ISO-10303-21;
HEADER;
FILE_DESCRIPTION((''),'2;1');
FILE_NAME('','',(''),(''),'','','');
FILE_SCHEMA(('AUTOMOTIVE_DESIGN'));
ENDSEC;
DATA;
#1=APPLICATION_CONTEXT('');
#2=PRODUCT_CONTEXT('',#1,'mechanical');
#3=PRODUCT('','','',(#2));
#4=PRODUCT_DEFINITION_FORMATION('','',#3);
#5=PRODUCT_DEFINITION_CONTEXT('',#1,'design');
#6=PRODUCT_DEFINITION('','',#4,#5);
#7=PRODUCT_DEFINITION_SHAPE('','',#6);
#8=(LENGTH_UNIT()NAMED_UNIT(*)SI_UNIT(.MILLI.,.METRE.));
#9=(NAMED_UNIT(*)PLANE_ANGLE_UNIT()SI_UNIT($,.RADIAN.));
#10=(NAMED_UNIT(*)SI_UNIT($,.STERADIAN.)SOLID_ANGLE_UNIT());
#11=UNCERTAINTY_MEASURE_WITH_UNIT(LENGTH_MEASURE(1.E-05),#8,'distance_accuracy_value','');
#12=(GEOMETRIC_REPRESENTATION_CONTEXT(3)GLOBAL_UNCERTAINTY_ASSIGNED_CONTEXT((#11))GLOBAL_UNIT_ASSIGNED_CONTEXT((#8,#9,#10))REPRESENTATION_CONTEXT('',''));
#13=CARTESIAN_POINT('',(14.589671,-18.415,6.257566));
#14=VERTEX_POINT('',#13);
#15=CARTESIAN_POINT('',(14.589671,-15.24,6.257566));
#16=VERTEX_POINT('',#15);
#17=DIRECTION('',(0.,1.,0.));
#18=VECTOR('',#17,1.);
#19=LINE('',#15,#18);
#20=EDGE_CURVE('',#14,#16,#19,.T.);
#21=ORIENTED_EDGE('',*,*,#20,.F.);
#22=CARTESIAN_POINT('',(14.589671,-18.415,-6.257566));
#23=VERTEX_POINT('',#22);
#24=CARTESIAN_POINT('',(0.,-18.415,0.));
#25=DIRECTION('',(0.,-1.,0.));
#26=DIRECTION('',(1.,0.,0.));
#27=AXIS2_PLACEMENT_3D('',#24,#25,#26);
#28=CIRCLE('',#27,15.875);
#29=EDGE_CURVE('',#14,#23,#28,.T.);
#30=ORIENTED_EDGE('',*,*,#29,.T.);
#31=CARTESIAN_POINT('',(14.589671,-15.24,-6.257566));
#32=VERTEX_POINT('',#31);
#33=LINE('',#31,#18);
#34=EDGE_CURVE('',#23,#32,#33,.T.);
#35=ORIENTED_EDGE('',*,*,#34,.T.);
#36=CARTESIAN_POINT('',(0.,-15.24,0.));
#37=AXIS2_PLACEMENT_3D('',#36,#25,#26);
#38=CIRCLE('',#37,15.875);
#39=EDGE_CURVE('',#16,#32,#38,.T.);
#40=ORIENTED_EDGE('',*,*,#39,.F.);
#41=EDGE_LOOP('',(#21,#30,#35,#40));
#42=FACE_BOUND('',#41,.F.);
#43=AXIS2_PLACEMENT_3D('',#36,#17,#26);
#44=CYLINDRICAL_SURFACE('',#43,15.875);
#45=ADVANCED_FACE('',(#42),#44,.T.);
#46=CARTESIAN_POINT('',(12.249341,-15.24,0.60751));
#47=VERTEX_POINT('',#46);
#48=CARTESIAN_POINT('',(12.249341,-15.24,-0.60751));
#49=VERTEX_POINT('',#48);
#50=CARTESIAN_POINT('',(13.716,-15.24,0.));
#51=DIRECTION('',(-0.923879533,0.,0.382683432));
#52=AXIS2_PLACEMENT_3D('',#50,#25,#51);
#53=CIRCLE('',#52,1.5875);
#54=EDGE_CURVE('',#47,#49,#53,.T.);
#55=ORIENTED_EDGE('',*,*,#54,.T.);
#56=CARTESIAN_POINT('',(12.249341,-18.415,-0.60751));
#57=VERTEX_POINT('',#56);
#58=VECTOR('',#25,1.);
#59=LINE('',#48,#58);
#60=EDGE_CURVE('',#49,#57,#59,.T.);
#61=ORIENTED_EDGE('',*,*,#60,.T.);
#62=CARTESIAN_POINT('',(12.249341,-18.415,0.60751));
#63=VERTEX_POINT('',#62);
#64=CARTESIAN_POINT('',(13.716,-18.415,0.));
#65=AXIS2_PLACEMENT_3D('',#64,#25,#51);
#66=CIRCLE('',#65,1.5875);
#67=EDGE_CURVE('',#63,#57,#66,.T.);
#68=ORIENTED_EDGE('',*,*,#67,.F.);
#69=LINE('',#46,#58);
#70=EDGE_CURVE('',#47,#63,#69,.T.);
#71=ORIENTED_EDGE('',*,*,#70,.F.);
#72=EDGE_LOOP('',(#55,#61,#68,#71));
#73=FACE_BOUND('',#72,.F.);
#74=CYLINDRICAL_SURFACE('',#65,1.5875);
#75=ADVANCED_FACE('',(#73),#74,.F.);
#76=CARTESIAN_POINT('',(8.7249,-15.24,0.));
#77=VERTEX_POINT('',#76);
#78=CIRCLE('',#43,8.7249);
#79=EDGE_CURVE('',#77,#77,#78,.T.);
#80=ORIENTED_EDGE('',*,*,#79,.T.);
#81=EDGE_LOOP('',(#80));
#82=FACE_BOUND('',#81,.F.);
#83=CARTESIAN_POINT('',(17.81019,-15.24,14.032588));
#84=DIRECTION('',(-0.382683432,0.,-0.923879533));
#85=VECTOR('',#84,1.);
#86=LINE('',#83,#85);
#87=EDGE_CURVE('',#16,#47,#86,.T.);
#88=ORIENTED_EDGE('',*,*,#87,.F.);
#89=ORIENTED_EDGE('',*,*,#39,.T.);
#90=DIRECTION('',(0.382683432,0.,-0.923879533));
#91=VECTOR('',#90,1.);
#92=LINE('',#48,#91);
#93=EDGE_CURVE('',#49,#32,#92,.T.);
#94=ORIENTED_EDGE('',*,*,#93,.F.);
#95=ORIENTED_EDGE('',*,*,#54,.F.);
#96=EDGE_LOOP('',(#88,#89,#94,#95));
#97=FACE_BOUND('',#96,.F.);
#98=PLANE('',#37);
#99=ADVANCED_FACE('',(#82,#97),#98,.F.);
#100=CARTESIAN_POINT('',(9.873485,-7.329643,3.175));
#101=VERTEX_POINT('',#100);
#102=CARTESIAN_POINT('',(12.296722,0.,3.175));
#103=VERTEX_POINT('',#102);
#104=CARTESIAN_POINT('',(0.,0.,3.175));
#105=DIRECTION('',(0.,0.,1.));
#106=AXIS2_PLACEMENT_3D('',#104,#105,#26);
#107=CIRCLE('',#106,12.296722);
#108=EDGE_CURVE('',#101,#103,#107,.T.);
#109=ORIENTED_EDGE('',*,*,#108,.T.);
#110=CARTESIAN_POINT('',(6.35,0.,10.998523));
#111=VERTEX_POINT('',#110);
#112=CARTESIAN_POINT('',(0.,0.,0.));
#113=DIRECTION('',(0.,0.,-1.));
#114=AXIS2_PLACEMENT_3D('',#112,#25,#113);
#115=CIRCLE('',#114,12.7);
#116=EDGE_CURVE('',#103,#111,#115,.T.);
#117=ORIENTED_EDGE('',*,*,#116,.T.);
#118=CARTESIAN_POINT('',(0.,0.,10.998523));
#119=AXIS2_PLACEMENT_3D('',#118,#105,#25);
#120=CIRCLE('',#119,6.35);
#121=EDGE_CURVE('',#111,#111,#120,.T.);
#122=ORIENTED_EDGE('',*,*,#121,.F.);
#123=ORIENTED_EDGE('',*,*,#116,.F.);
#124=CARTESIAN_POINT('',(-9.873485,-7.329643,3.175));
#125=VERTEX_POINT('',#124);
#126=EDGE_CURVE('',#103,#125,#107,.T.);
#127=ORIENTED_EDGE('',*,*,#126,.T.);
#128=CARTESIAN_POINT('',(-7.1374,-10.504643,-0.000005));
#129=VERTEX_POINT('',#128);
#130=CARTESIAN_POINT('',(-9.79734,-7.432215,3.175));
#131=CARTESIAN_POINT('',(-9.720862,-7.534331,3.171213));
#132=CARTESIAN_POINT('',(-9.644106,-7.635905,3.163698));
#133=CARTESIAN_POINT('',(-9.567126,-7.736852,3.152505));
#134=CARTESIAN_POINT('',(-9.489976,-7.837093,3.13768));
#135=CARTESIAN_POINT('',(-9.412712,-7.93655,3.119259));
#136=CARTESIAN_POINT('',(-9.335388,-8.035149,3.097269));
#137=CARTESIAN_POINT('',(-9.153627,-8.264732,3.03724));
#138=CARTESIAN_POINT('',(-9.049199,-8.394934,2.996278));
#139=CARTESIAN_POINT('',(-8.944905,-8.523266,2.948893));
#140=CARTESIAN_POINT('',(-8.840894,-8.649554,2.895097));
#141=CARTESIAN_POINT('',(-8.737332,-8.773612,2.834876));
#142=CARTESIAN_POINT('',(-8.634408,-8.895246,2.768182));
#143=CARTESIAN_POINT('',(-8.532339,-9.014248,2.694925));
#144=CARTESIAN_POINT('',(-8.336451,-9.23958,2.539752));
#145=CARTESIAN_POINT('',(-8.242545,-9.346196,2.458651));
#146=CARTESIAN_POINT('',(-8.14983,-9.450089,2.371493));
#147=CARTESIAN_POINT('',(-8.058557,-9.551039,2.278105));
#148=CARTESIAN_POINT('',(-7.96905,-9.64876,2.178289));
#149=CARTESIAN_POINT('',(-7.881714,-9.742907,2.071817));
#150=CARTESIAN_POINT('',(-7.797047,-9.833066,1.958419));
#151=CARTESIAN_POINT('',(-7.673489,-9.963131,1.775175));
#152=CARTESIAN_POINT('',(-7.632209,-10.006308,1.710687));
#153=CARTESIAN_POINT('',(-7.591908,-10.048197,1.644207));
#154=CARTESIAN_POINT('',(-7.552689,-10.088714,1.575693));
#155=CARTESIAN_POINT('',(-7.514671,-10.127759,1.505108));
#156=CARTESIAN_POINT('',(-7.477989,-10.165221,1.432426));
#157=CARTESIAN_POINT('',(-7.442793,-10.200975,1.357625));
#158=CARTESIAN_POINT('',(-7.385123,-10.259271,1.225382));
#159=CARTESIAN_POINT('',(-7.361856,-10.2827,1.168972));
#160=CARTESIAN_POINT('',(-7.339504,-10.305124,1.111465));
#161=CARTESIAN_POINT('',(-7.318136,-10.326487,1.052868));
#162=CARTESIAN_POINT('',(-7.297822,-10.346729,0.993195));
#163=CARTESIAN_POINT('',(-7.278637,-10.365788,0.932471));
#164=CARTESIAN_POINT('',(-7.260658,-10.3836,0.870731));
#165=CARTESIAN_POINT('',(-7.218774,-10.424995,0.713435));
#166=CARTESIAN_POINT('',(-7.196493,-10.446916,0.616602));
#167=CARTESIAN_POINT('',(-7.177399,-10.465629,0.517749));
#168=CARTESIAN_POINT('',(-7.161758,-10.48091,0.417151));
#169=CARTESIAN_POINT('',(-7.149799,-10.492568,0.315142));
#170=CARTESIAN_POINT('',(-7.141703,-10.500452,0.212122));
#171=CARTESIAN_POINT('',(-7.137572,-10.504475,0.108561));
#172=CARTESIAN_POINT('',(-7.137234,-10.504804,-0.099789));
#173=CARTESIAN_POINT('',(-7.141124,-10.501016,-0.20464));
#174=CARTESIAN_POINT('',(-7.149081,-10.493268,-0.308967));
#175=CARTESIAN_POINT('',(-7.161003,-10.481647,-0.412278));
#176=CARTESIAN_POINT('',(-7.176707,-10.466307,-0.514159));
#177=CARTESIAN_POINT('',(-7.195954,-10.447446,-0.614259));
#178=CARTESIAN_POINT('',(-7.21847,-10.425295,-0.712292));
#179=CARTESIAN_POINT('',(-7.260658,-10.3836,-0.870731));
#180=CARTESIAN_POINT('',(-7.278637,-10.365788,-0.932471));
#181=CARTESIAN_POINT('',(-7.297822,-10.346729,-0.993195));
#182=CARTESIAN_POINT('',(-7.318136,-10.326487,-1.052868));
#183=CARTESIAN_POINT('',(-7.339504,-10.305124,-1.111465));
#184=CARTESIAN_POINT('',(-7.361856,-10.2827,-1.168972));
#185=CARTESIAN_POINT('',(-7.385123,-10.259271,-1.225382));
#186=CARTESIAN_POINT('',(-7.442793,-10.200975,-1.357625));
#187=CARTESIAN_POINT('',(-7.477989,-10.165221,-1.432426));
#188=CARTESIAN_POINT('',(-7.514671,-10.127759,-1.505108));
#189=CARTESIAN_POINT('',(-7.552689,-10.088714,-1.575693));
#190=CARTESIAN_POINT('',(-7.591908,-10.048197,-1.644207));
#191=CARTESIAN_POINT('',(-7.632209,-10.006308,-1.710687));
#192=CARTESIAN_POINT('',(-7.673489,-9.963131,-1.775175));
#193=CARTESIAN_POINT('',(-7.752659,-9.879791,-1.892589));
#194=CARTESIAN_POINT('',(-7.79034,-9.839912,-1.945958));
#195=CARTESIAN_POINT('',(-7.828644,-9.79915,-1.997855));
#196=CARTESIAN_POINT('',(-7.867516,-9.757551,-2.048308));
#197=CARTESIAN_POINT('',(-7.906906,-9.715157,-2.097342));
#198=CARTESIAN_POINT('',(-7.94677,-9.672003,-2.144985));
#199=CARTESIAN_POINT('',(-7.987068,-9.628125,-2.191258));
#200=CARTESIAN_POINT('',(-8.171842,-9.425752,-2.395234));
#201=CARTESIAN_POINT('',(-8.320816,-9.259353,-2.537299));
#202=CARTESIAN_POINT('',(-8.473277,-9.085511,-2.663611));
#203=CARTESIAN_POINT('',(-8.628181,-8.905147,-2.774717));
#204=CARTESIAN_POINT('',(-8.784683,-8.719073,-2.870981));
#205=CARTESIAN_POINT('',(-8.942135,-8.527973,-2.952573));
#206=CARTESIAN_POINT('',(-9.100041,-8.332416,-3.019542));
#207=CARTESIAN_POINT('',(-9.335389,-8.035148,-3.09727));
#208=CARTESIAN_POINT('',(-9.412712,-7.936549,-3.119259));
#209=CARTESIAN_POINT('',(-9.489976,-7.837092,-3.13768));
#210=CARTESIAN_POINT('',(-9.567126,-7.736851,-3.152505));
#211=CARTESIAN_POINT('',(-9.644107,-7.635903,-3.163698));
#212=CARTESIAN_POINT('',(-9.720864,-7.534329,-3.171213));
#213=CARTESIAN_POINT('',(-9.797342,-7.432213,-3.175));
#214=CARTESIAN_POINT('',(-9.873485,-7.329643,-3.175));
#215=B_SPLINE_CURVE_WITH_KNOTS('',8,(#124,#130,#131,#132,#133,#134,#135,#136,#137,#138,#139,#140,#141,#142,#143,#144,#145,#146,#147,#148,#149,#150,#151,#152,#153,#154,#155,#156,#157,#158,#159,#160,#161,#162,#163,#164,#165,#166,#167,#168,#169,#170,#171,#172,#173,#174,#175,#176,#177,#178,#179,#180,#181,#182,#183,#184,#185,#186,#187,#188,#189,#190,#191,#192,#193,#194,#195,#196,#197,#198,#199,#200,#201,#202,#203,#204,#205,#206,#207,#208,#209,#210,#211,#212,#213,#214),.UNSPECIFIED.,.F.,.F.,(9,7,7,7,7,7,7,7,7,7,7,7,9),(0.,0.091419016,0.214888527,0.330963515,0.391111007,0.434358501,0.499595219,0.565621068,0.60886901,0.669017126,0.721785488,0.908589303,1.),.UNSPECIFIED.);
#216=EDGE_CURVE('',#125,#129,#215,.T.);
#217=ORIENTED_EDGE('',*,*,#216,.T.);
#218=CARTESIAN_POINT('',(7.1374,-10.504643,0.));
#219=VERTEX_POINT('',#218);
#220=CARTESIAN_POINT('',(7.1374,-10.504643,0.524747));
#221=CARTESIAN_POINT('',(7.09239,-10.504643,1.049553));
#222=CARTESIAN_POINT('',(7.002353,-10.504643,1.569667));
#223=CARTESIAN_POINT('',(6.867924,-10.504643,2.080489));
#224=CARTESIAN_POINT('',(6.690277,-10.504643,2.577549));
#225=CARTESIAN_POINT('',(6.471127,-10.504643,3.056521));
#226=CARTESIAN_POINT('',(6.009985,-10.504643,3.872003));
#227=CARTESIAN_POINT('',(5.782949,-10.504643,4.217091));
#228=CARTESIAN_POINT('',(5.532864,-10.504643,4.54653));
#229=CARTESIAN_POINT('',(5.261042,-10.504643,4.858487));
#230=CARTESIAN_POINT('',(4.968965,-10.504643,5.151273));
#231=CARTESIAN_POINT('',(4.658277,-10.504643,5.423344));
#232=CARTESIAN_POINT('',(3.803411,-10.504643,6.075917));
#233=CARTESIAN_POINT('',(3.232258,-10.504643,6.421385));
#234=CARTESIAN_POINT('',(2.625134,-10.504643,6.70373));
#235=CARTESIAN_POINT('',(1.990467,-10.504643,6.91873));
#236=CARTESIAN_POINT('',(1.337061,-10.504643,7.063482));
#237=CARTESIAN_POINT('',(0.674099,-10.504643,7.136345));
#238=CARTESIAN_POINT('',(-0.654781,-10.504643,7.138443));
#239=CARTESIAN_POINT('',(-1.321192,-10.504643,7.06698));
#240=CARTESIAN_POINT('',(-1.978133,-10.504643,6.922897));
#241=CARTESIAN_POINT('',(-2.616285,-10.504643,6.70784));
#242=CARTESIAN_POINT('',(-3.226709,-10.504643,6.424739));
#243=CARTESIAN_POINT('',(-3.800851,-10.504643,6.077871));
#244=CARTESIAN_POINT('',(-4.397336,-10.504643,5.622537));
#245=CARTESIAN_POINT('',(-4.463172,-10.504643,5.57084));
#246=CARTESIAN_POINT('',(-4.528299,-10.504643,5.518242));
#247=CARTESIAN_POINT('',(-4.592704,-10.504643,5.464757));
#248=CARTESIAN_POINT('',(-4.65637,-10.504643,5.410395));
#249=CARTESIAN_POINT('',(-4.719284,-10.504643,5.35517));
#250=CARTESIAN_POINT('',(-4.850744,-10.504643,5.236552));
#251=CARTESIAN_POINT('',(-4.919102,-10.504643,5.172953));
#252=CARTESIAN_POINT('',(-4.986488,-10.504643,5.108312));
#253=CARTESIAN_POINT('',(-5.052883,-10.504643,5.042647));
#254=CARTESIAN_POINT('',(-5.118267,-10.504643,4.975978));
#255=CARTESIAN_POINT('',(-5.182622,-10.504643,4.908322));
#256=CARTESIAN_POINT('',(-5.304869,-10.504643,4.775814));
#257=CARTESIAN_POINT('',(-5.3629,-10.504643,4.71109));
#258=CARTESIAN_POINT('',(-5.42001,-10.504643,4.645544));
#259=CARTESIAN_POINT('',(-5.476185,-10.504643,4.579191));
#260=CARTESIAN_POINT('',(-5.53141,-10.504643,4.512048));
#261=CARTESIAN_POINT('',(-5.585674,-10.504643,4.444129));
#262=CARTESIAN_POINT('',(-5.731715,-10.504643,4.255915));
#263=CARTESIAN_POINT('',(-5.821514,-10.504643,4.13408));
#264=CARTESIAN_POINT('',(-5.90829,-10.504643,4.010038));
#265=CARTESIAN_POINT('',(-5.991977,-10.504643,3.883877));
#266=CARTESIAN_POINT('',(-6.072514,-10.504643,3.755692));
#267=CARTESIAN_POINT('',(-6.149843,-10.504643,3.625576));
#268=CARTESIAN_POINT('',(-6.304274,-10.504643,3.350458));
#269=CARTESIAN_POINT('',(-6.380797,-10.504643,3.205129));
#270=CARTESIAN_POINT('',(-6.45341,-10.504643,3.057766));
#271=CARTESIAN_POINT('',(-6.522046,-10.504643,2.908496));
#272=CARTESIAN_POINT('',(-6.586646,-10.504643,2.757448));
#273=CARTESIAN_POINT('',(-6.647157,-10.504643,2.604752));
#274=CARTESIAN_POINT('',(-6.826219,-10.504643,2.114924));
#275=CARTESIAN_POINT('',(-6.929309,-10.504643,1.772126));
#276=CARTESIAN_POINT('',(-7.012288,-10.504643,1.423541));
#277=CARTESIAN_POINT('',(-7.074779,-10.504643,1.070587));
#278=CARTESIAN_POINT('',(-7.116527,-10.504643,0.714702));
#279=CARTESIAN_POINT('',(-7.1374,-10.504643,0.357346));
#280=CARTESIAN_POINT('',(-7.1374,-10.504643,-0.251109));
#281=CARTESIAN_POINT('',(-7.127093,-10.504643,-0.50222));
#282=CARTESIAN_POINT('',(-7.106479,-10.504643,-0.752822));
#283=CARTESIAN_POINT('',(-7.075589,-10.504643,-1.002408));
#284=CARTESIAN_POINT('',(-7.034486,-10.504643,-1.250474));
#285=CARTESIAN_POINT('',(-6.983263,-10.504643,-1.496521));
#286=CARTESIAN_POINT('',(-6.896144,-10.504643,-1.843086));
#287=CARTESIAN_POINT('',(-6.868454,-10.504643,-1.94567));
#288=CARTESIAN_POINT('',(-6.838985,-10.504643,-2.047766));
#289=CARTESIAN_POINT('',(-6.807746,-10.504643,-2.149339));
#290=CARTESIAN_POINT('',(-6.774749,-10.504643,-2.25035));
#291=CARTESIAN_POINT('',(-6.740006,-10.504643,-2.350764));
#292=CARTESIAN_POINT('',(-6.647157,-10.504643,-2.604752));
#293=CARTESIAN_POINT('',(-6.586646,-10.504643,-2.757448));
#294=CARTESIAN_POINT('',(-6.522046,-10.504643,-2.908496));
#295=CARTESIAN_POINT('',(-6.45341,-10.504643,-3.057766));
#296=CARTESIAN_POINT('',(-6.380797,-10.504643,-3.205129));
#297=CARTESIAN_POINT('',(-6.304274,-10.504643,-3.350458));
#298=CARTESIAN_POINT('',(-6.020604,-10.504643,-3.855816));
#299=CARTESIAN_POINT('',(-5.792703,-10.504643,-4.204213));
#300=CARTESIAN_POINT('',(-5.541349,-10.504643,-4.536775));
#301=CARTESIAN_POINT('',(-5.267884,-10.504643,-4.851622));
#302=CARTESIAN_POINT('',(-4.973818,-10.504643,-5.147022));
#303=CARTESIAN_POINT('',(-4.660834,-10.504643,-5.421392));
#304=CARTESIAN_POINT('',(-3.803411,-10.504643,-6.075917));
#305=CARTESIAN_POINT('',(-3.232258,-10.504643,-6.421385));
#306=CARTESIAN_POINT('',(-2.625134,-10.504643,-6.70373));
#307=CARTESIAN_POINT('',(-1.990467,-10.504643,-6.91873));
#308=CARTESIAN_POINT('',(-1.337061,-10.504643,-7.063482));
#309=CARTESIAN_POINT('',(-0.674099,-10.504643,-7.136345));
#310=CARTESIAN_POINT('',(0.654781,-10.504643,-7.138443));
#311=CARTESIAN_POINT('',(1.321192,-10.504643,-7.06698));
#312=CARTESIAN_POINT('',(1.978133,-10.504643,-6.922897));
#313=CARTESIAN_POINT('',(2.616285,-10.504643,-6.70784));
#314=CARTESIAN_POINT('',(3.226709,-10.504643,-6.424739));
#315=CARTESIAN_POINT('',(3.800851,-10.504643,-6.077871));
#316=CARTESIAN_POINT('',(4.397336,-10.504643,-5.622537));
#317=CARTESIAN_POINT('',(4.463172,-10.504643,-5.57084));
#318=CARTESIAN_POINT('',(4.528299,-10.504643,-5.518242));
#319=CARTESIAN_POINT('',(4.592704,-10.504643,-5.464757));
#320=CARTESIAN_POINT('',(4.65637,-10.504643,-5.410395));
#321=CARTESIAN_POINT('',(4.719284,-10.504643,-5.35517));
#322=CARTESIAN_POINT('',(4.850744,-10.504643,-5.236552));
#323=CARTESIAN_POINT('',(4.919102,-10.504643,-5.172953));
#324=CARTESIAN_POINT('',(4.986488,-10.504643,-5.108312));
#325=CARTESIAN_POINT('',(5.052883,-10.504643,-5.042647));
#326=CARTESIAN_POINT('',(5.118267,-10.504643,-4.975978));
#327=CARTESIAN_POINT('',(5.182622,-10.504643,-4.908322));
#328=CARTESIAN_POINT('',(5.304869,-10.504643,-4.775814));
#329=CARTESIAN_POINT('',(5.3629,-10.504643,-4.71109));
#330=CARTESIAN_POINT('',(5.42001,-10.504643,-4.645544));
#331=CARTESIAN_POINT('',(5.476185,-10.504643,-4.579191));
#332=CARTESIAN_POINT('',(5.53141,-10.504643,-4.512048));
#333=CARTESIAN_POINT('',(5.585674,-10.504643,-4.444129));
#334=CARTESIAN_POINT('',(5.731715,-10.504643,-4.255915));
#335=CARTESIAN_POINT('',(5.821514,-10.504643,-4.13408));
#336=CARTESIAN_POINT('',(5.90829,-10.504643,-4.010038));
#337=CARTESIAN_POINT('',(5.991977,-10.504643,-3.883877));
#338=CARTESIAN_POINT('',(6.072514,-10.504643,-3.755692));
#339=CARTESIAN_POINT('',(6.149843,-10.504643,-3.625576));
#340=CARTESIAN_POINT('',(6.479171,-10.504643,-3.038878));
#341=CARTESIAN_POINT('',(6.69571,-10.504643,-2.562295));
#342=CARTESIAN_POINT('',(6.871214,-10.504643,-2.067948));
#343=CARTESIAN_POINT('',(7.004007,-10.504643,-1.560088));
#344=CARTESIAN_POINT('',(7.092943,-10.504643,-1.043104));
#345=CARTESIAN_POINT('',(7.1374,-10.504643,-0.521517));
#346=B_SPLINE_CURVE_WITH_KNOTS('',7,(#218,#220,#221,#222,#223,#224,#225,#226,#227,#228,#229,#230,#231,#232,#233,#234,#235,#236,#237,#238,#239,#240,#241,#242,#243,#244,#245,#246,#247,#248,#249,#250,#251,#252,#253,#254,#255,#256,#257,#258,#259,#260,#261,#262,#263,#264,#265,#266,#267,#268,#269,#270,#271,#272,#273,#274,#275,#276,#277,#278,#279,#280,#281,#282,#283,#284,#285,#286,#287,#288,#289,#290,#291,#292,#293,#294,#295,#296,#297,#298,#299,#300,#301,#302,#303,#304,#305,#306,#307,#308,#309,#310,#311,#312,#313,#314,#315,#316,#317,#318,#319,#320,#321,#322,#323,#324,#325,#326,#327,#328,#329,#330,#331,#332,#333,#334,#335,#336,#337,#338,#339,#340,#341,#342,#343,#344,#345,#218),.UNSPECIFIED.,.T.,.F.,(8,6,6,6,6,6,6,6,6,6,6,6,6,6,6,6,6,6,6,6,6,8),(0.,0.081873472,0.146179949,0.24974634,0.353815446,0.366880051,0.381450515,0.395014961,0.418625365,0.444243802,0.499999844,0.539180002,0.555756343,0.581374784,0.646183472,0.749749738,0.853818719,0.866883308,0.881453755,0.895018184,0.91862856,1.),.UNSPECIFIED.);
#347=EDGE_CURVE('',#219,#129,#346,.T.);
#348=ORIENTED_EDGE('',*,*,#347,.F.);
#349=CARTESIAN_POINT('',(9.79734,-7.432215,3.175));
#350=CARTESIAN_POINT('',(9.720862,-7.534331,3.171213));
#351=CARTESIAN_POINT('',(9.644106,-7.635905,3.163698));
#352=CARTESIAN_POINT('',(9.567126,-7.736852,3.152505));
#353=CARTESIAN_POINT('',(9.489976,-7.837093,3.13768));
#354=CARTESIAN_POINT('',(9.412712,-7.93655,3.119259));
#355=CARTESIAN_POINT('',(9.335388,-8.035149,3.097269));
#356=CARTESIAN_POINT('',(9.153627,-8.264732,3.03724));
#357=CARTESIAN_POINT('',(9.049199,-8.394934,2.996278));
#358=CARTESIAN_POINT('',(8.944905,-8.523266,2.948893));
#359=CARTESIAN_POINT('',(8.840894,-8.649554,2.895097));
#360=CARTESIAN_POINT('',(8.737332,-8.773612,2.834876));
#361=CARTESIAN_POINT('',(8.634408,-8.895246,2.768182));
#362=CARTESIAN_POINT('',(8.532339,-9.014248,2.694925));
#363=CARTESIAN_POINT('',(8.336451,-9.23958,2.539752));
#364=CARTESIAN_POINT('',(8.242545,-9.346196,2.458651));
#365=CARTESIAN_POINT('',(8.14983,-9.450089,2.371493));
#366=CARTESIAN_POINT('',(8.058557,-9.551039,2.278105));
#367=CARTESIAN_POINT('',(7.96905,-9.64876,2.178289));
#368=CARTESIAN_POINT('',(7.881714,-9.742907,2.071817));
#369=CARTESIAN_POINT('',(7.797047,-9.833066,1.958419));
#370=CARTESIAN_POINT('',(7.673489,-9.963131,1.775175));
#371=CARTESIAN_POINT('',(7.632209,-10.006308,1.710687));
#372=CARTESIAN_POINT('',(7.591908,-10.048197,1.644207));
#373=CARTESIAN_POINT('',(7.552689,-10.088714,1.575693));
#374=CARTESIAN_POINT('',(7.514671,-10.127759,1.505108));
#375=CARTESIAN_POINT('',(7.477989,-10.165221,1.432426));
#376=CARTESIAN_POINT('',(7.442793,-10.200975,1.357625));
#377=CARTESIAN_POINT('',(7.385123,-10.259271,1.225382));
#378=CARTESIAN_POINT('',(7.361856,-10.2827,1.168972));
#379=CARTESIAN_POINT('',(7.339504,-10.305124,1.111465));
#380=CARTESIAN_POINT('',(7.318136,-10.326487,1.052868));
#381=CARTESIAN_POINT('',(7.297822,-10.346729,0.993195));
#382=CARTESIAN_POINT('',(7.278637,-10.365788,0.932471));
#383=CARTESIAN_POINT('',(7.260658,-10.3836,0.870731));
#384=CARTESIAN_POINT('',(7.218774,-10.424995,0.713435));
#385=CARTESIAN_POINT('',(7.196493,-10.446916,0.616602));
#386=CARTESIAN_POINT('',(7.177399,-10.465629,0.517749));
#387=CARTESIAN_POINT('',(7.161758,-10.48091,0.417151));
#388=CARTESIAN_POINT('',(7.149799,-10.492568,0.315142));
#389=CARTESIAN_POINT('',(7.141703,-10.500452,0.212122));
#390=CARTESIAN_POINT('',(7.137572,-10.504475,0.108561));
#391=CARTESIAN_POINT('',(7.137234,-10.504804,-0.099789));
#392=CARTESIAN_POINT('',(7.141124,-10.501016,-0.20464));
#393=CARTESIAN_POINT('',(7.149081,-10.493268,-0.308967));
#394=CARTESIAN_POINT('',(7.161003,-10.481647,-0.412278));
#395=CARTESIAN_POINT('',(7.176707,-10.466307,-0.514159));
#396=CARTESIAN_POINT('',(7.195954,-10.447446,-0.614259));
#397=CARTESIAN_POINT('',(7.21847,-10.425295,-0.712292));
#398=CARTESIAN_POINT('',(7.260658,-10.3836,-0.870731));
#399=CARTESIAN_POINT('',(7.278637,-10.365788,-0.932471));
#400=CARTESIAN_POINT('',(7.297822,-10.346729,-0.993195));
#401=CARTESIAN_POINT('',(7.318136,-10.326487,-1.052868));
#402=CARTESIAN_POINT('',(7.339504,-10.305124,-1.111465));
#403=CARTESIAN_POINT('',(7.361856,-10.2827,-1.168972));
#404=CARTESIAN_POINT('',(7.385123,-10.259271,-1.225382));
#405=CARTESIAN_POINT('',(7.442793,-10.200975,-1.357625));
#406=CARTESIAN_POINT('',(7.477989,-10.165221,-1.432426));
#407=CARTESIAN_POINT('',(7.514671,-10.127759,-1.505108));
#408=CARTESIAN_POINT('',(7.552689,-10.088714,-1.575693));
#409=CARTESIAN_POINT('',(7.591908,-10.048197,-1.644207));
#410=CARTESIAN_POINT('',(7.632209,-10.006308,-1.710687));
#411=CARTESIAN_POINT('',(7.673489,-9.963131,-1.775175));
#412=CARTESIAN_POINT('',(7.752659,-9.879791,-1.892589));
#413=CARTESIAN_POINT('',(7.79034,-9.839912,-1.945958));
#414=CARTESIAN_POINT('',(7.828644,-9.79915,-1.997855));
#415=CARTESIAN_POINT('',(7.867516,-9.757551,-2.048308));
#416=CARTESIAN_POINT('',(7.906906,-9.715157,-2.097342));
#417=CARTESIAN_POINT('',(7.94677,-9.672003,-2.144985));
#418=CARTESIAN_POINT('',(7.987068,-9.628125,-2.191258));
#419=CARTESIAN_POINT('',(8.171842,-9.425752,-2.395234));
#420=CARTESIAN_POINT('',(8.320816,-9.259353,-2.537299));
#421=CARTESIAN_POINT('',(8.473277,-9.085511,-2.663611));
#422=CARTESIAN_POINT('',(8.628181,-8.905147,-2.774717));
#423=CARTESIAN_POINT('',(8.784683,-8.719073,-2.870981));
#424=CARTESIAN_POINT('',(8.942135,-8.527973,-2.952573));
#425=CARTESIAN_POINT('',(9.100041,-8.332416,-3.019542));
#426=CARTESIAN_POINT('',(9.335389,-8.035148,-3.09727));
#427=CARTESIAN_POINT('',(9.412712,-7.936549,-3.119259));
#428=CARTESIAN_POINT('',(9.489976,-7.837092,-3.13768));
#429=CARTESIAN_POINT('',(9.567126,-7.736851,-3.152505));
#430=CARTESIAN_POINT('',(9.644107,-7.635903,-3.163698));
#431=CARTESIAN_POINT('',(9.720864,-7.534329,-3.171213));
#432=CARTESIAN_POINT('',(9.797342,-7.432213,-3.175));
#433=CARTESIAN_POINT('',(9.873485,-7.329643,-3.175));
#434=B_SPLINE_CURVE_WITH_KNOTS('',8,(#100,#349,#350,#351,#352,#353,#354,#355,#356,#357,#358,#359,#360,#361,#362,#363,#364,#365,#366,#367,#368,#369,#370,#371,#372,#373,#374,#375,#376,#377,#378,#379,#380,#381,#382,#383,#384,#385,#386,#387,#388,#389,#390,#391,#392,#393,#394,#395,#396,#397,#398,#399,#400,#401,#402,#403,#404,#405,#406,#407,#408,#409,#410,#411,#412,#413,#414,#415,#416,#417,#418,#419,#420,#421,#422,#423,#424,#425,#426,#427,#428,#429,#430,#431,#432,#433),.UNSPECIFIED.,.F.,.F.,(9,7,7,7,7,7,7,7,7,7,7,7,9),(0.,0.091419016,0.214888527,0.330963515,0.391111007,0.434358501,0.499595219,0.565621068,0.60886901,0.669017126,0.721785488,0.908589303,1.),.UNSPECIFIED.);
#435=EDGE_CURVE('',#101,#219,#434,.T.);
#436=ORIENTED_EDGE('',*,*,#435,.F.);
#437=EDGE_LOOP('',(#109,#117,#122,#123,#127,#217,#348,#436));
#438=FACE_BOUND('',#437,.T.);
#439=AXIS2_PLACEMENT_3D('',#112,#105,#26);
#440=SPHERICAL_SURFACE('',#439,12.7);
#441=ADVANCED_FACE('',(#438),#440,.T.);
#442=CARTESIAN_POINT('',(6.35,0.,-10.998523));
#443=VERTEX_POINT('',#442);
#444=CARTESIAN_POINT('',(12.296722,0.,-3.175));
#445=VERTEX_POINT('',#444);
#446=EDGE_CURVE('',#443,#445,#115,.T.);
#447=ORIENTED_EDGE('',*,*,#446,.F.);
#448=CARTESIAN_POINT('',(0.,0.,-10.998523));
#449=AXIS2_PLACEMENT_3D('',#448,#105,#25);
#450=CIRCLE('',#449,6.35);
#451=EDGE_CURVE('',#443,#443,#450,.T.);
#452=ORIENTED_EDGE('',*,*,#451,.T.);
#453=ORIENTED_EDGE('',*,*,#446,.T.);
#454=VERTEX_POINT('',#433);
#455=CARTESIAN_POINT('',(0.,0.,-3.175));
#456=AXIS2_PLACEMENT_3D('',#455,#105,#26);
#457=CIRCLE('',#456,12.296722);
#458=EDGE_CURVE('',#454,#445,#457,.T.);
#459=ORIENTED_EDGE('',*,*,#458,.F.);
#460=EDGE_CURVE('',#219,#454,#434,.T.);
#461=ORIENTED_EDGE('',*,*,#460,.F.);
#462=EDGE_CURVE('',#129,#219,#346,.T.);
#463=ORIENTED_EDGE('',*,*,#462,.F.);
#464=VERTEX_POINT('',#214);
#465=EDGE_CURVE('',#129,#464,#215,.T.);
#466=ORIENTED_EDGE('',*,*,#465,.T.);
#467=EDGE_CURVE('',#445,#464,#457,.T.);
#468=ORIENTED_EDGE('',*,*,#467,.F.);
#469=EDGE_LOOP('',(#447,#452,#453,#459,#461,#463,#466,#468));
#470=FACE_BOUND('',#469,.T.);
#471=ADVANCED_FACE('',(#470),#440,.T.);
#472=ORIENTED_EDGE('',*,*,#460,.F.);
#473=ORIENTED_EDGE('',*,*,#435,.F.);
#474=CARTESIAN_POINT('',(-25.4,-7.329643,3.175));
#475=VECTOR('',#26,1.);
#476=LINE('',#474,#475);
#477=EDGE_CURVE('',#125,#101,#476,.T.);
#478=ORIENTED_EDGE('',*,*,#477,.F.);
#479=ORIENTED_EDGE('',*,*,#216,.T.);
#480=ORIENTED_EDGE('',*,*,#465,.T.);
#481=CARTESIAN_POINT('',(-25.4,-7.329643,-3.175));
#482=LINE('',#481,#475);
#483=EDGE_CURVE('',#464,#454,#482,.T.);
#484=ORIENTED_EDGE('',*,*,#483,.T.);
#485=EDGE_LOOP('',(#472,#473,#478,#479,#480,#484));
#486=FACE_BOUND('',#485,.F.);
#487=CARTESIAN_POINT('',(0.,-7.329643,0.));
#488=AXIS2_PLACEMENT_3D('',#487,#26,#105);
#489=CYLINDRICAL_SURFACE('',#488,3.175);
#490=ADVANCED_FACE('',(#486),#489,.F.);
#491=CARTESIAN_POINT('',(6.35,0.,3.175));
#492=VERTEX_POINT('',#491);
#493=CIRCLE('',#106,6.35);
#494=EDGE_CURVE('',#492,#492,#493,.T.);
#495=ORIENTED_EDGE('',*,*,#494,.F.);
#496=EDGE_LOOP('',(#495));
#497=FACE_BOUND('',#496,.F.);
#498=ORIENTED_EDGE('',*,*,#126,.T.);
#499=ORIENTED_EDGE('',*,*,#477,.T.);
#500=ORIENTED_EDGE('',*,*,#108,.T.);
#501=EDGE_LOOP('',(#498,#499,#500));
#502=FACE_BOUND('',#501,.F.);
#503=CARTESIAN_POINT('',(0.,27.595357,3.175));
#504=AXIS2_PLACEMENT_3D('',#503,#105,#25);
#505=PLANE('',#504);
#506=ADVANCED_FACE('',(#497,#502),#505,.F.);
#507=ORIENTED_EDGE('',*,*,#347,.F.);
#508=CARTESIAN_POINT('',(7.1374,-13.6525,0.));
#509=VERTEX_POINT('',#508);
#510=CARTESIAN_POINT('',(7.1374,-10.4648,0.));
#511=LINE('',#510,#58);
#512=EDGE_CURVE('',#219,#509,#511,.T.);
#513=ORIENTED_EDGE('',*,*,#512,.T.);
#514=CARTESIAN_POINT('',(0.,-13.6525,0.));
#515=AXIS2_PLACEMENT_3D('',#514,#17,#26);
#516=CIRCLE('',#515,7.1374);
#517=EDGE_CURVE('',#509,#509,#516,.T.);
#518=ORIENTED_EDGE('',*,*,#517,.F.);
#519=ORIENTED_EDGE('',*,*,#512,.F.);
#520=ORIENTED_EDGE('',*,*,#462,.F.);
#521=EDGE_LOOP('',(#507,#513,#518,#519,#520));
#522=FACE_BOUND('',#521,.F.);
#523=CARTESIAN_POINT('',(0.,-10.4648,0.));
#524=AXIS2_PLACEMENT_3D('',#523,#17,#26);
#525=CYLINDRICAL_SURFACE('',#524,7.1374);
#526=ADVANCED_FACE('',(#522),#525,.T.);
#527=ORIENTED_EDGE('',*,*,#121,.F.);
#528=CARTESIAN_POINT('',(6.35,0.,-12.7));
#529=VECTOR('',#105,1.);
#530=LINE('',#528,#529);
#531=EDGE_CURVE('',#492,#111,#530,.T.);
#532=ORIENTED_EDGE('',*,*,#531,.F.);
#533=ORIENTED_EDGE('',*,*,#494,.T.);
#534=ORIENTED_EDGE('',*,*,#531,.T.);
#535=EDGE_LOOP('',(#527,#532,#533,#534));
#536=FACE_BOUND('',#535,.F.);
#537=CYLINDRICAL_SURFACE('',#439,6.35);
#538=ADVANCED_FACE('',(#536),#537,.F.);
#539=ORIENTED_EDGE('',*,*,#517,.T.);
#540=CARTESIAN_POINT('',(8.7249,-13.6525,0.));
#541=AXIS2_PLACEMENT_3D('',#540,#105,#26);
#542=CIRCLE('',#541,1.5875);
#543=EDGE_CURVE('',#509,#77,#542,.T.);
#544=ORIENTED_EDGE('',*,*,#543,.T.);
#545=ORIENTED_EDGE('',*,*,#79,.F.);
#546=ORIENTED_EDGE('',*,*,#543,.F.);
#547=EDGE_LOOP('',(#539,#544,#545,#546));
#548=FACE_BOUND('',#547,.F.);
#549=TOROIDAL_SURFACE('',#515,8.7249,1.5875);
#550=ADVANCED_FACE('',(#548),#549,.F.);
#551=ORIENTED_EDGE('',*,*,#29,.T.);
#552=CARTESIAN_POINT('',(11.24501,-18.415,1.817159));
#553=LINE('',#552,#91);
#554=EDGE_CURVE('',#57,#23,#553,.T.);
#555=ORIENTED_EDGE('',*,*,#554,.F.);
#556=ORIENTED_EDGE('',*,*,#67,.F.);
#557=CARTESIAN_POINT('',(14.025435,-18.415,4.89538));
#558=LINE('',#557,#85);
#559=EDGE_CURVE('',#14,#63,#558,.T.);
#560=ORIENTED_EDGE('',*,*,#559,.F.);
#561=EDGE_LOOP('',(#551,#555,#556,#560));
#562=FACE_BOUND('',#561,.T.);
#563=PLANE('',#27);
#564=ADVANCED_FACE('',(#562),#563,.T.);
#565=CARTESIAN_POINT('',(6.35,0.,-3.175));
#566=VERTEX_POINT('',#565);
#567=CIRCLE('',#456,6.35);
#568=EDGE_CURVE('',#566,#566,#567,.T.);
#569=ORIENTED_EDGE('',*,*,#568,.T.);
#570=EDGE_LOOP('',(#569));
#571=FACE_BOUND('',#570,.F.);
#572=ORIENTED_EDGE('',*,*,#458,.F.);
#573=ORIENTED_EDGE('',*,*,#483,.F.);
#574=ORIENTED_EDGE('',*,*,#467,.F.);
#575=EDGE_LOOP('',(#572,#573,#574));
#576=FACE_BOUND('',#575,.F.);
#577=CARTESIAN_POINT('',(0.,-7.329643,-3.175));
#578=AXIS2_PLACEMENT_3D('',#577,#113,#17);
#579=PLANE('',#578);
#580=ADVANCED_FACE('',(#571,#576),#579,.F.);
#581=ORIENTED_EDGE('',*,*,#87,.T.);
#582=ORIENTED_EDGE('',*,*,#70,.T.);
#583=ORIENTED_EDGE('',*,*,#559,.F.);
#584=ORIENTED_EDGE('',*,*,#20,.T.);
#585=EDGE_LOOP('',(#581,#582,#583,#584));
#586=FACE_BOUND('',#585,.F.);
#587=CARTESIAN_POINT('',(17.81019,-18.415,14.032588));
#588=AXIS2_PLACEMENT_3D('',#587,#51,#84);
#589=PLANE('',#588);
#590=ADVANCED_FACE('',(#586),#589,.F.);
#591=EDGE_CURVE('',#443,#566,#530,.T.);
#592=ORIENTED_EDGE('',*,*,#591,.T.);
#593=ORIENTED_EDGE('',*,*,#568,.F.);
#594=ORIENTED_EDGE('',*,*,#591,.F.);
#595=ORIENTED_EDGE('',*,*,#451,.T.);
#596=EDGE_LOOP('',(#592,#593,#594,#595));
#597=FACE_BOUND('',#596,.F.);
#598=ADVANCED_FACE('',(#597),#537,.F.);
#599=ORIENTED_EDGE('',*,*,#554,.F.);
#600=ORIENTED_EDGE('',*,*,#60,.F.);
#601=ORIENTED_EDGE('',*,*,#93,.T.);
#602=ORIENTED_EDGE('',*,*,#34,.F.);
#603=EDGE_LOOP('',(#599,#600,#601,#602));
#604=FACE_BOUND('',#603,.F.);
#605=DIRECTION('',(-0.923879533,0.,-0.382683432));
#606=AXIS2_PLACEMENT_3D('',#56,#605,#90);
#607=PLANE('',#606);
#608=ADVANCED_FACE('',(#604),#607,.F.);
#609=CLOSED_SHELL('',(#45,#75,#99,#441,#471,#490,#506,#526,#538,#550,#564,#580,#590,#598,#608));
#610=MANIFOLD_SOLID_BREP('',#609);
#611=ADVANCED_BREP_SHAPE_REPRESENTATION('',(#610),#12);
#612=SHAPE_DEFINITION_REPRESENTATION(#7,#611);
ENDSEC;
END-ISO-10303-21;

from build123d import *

# Parameters (mm, degrees)
F1_R      = 6.35
F2_DEPTH  = 12.7
F5_R      = 15.875
F6_DEPTH  = 3.175
F8_R      = 7.1374
F9_DEPTH  = 7.9502
F13_DEPTH = 25.4
F15_R     = 1.5875
F17_DEPTH = 3.175


with BuildPart() as f2:
    # F1 (on Top) → F2 (new body, symmetric)
    with BuildSketch(Plane.XY):
        Circle(F1_R)
    extrude(amount=F2_DEPTH, both=True)


with BuildPart() as f3:
    # F0 (on Front) → F3 (revolve)
    with BuildSketch(Plane.XZ):
        with BuildLine():
            Line((0, 12.7), (0, -12.7))
            ThreePointArc((0, -12.7), (12.7, 0), (0, 12.7))
        make_face()
    revolve(axis=Axis((0, 0, 0), (0, 0, 1)))

    # F4: cut F2
    add(f2.part, mode=Mode.SUBTRACT)


with BuildPart() as f6:
    # F5 (on Front) → F6 (new body)
    with BuildSketch(Plane.XZ):
        Circle(F5_R)
    extrude(amount=F6_DEPTH)


with BuildPart() as f6_1:
    # F7: moved
    add(f6.part.moved(Location((0, -15.24, 0))))


with BuildPart() as f9:
    # F8 (on face) → F9 (new body)
    with BuildSketch(Plane.XZ.offset(18.415)):
        Circle(F8_R)
    extrude(amount=F9_DEPTH)


with BuildPart() as f9_1:
    # F10: moved
    add(f9.part.moved(Location((0, 7.9502, 0))))


with BuildPart() as f3_1:
    add(f3.part)

    # F11: union F6, F9
    add(f6_1.part)
    add(f9_1.part)


with BuildPart() as f13:
    # F12 (on Right) → F13 (new body, symmetric)
    with BuildSketch(Plane.YZ):
        with BuildLine():
            Line((27.5953571579, 3.175), (-7.3296428421, 3.175))
            ThreePointArc((-7.3296428421, 3.175), (-10.5046428421, 0), (-7.3296428421, -3.175))
            Line((-7.3296428421, -3.175), (27.5953571579, -3.175))
            Line((27.5953571579, -3.175), (27.5953571579, 3.175))
        make_face()
    extrude(amount=F13_DEPTH, both=True)


with BuildPart() as f3_2:
    add(f3_1.part)

    # F14: cut F13
    add(f13.part, mode=Mode.SUBTRACT)

    # F15
    f15_edges = [f3_2.edges().sort_by_distance(p)[0] for p in [
        (-7.1374, -15.24, 0),
    ]]
    fillet(f15_edges, radius=F15_R)


with BuildPart() as f17:
    # F16 (on face) → F17 (new body, symmetric)
    with BuildSketch(Plane.XZ.offset(18.415)):
        with BuildLine():
            Line((17.810190469, 14.0325875707), (12.2493412421, 0.6075099489))
            ThreePointArc((12.2493412421, 0.6075099489), (12.1285, 0), (12.2493412421, -0.6075099489))
            Line((12.2493412421, -0.6075099489), (17.810190469, -14.0325875707))
            Line((17.810190469, -14.0325875707), (17.810190469, 14.0325875707))
        make_face()
    extrude(amount=F17_DEPTH, both=True)


with BuildPart() as f3_3:
    add(f3_2.part)

    # F18: cut F17
    add(f17.part, mode=Mode.SUBTRACT)


solid = f3_3.part
